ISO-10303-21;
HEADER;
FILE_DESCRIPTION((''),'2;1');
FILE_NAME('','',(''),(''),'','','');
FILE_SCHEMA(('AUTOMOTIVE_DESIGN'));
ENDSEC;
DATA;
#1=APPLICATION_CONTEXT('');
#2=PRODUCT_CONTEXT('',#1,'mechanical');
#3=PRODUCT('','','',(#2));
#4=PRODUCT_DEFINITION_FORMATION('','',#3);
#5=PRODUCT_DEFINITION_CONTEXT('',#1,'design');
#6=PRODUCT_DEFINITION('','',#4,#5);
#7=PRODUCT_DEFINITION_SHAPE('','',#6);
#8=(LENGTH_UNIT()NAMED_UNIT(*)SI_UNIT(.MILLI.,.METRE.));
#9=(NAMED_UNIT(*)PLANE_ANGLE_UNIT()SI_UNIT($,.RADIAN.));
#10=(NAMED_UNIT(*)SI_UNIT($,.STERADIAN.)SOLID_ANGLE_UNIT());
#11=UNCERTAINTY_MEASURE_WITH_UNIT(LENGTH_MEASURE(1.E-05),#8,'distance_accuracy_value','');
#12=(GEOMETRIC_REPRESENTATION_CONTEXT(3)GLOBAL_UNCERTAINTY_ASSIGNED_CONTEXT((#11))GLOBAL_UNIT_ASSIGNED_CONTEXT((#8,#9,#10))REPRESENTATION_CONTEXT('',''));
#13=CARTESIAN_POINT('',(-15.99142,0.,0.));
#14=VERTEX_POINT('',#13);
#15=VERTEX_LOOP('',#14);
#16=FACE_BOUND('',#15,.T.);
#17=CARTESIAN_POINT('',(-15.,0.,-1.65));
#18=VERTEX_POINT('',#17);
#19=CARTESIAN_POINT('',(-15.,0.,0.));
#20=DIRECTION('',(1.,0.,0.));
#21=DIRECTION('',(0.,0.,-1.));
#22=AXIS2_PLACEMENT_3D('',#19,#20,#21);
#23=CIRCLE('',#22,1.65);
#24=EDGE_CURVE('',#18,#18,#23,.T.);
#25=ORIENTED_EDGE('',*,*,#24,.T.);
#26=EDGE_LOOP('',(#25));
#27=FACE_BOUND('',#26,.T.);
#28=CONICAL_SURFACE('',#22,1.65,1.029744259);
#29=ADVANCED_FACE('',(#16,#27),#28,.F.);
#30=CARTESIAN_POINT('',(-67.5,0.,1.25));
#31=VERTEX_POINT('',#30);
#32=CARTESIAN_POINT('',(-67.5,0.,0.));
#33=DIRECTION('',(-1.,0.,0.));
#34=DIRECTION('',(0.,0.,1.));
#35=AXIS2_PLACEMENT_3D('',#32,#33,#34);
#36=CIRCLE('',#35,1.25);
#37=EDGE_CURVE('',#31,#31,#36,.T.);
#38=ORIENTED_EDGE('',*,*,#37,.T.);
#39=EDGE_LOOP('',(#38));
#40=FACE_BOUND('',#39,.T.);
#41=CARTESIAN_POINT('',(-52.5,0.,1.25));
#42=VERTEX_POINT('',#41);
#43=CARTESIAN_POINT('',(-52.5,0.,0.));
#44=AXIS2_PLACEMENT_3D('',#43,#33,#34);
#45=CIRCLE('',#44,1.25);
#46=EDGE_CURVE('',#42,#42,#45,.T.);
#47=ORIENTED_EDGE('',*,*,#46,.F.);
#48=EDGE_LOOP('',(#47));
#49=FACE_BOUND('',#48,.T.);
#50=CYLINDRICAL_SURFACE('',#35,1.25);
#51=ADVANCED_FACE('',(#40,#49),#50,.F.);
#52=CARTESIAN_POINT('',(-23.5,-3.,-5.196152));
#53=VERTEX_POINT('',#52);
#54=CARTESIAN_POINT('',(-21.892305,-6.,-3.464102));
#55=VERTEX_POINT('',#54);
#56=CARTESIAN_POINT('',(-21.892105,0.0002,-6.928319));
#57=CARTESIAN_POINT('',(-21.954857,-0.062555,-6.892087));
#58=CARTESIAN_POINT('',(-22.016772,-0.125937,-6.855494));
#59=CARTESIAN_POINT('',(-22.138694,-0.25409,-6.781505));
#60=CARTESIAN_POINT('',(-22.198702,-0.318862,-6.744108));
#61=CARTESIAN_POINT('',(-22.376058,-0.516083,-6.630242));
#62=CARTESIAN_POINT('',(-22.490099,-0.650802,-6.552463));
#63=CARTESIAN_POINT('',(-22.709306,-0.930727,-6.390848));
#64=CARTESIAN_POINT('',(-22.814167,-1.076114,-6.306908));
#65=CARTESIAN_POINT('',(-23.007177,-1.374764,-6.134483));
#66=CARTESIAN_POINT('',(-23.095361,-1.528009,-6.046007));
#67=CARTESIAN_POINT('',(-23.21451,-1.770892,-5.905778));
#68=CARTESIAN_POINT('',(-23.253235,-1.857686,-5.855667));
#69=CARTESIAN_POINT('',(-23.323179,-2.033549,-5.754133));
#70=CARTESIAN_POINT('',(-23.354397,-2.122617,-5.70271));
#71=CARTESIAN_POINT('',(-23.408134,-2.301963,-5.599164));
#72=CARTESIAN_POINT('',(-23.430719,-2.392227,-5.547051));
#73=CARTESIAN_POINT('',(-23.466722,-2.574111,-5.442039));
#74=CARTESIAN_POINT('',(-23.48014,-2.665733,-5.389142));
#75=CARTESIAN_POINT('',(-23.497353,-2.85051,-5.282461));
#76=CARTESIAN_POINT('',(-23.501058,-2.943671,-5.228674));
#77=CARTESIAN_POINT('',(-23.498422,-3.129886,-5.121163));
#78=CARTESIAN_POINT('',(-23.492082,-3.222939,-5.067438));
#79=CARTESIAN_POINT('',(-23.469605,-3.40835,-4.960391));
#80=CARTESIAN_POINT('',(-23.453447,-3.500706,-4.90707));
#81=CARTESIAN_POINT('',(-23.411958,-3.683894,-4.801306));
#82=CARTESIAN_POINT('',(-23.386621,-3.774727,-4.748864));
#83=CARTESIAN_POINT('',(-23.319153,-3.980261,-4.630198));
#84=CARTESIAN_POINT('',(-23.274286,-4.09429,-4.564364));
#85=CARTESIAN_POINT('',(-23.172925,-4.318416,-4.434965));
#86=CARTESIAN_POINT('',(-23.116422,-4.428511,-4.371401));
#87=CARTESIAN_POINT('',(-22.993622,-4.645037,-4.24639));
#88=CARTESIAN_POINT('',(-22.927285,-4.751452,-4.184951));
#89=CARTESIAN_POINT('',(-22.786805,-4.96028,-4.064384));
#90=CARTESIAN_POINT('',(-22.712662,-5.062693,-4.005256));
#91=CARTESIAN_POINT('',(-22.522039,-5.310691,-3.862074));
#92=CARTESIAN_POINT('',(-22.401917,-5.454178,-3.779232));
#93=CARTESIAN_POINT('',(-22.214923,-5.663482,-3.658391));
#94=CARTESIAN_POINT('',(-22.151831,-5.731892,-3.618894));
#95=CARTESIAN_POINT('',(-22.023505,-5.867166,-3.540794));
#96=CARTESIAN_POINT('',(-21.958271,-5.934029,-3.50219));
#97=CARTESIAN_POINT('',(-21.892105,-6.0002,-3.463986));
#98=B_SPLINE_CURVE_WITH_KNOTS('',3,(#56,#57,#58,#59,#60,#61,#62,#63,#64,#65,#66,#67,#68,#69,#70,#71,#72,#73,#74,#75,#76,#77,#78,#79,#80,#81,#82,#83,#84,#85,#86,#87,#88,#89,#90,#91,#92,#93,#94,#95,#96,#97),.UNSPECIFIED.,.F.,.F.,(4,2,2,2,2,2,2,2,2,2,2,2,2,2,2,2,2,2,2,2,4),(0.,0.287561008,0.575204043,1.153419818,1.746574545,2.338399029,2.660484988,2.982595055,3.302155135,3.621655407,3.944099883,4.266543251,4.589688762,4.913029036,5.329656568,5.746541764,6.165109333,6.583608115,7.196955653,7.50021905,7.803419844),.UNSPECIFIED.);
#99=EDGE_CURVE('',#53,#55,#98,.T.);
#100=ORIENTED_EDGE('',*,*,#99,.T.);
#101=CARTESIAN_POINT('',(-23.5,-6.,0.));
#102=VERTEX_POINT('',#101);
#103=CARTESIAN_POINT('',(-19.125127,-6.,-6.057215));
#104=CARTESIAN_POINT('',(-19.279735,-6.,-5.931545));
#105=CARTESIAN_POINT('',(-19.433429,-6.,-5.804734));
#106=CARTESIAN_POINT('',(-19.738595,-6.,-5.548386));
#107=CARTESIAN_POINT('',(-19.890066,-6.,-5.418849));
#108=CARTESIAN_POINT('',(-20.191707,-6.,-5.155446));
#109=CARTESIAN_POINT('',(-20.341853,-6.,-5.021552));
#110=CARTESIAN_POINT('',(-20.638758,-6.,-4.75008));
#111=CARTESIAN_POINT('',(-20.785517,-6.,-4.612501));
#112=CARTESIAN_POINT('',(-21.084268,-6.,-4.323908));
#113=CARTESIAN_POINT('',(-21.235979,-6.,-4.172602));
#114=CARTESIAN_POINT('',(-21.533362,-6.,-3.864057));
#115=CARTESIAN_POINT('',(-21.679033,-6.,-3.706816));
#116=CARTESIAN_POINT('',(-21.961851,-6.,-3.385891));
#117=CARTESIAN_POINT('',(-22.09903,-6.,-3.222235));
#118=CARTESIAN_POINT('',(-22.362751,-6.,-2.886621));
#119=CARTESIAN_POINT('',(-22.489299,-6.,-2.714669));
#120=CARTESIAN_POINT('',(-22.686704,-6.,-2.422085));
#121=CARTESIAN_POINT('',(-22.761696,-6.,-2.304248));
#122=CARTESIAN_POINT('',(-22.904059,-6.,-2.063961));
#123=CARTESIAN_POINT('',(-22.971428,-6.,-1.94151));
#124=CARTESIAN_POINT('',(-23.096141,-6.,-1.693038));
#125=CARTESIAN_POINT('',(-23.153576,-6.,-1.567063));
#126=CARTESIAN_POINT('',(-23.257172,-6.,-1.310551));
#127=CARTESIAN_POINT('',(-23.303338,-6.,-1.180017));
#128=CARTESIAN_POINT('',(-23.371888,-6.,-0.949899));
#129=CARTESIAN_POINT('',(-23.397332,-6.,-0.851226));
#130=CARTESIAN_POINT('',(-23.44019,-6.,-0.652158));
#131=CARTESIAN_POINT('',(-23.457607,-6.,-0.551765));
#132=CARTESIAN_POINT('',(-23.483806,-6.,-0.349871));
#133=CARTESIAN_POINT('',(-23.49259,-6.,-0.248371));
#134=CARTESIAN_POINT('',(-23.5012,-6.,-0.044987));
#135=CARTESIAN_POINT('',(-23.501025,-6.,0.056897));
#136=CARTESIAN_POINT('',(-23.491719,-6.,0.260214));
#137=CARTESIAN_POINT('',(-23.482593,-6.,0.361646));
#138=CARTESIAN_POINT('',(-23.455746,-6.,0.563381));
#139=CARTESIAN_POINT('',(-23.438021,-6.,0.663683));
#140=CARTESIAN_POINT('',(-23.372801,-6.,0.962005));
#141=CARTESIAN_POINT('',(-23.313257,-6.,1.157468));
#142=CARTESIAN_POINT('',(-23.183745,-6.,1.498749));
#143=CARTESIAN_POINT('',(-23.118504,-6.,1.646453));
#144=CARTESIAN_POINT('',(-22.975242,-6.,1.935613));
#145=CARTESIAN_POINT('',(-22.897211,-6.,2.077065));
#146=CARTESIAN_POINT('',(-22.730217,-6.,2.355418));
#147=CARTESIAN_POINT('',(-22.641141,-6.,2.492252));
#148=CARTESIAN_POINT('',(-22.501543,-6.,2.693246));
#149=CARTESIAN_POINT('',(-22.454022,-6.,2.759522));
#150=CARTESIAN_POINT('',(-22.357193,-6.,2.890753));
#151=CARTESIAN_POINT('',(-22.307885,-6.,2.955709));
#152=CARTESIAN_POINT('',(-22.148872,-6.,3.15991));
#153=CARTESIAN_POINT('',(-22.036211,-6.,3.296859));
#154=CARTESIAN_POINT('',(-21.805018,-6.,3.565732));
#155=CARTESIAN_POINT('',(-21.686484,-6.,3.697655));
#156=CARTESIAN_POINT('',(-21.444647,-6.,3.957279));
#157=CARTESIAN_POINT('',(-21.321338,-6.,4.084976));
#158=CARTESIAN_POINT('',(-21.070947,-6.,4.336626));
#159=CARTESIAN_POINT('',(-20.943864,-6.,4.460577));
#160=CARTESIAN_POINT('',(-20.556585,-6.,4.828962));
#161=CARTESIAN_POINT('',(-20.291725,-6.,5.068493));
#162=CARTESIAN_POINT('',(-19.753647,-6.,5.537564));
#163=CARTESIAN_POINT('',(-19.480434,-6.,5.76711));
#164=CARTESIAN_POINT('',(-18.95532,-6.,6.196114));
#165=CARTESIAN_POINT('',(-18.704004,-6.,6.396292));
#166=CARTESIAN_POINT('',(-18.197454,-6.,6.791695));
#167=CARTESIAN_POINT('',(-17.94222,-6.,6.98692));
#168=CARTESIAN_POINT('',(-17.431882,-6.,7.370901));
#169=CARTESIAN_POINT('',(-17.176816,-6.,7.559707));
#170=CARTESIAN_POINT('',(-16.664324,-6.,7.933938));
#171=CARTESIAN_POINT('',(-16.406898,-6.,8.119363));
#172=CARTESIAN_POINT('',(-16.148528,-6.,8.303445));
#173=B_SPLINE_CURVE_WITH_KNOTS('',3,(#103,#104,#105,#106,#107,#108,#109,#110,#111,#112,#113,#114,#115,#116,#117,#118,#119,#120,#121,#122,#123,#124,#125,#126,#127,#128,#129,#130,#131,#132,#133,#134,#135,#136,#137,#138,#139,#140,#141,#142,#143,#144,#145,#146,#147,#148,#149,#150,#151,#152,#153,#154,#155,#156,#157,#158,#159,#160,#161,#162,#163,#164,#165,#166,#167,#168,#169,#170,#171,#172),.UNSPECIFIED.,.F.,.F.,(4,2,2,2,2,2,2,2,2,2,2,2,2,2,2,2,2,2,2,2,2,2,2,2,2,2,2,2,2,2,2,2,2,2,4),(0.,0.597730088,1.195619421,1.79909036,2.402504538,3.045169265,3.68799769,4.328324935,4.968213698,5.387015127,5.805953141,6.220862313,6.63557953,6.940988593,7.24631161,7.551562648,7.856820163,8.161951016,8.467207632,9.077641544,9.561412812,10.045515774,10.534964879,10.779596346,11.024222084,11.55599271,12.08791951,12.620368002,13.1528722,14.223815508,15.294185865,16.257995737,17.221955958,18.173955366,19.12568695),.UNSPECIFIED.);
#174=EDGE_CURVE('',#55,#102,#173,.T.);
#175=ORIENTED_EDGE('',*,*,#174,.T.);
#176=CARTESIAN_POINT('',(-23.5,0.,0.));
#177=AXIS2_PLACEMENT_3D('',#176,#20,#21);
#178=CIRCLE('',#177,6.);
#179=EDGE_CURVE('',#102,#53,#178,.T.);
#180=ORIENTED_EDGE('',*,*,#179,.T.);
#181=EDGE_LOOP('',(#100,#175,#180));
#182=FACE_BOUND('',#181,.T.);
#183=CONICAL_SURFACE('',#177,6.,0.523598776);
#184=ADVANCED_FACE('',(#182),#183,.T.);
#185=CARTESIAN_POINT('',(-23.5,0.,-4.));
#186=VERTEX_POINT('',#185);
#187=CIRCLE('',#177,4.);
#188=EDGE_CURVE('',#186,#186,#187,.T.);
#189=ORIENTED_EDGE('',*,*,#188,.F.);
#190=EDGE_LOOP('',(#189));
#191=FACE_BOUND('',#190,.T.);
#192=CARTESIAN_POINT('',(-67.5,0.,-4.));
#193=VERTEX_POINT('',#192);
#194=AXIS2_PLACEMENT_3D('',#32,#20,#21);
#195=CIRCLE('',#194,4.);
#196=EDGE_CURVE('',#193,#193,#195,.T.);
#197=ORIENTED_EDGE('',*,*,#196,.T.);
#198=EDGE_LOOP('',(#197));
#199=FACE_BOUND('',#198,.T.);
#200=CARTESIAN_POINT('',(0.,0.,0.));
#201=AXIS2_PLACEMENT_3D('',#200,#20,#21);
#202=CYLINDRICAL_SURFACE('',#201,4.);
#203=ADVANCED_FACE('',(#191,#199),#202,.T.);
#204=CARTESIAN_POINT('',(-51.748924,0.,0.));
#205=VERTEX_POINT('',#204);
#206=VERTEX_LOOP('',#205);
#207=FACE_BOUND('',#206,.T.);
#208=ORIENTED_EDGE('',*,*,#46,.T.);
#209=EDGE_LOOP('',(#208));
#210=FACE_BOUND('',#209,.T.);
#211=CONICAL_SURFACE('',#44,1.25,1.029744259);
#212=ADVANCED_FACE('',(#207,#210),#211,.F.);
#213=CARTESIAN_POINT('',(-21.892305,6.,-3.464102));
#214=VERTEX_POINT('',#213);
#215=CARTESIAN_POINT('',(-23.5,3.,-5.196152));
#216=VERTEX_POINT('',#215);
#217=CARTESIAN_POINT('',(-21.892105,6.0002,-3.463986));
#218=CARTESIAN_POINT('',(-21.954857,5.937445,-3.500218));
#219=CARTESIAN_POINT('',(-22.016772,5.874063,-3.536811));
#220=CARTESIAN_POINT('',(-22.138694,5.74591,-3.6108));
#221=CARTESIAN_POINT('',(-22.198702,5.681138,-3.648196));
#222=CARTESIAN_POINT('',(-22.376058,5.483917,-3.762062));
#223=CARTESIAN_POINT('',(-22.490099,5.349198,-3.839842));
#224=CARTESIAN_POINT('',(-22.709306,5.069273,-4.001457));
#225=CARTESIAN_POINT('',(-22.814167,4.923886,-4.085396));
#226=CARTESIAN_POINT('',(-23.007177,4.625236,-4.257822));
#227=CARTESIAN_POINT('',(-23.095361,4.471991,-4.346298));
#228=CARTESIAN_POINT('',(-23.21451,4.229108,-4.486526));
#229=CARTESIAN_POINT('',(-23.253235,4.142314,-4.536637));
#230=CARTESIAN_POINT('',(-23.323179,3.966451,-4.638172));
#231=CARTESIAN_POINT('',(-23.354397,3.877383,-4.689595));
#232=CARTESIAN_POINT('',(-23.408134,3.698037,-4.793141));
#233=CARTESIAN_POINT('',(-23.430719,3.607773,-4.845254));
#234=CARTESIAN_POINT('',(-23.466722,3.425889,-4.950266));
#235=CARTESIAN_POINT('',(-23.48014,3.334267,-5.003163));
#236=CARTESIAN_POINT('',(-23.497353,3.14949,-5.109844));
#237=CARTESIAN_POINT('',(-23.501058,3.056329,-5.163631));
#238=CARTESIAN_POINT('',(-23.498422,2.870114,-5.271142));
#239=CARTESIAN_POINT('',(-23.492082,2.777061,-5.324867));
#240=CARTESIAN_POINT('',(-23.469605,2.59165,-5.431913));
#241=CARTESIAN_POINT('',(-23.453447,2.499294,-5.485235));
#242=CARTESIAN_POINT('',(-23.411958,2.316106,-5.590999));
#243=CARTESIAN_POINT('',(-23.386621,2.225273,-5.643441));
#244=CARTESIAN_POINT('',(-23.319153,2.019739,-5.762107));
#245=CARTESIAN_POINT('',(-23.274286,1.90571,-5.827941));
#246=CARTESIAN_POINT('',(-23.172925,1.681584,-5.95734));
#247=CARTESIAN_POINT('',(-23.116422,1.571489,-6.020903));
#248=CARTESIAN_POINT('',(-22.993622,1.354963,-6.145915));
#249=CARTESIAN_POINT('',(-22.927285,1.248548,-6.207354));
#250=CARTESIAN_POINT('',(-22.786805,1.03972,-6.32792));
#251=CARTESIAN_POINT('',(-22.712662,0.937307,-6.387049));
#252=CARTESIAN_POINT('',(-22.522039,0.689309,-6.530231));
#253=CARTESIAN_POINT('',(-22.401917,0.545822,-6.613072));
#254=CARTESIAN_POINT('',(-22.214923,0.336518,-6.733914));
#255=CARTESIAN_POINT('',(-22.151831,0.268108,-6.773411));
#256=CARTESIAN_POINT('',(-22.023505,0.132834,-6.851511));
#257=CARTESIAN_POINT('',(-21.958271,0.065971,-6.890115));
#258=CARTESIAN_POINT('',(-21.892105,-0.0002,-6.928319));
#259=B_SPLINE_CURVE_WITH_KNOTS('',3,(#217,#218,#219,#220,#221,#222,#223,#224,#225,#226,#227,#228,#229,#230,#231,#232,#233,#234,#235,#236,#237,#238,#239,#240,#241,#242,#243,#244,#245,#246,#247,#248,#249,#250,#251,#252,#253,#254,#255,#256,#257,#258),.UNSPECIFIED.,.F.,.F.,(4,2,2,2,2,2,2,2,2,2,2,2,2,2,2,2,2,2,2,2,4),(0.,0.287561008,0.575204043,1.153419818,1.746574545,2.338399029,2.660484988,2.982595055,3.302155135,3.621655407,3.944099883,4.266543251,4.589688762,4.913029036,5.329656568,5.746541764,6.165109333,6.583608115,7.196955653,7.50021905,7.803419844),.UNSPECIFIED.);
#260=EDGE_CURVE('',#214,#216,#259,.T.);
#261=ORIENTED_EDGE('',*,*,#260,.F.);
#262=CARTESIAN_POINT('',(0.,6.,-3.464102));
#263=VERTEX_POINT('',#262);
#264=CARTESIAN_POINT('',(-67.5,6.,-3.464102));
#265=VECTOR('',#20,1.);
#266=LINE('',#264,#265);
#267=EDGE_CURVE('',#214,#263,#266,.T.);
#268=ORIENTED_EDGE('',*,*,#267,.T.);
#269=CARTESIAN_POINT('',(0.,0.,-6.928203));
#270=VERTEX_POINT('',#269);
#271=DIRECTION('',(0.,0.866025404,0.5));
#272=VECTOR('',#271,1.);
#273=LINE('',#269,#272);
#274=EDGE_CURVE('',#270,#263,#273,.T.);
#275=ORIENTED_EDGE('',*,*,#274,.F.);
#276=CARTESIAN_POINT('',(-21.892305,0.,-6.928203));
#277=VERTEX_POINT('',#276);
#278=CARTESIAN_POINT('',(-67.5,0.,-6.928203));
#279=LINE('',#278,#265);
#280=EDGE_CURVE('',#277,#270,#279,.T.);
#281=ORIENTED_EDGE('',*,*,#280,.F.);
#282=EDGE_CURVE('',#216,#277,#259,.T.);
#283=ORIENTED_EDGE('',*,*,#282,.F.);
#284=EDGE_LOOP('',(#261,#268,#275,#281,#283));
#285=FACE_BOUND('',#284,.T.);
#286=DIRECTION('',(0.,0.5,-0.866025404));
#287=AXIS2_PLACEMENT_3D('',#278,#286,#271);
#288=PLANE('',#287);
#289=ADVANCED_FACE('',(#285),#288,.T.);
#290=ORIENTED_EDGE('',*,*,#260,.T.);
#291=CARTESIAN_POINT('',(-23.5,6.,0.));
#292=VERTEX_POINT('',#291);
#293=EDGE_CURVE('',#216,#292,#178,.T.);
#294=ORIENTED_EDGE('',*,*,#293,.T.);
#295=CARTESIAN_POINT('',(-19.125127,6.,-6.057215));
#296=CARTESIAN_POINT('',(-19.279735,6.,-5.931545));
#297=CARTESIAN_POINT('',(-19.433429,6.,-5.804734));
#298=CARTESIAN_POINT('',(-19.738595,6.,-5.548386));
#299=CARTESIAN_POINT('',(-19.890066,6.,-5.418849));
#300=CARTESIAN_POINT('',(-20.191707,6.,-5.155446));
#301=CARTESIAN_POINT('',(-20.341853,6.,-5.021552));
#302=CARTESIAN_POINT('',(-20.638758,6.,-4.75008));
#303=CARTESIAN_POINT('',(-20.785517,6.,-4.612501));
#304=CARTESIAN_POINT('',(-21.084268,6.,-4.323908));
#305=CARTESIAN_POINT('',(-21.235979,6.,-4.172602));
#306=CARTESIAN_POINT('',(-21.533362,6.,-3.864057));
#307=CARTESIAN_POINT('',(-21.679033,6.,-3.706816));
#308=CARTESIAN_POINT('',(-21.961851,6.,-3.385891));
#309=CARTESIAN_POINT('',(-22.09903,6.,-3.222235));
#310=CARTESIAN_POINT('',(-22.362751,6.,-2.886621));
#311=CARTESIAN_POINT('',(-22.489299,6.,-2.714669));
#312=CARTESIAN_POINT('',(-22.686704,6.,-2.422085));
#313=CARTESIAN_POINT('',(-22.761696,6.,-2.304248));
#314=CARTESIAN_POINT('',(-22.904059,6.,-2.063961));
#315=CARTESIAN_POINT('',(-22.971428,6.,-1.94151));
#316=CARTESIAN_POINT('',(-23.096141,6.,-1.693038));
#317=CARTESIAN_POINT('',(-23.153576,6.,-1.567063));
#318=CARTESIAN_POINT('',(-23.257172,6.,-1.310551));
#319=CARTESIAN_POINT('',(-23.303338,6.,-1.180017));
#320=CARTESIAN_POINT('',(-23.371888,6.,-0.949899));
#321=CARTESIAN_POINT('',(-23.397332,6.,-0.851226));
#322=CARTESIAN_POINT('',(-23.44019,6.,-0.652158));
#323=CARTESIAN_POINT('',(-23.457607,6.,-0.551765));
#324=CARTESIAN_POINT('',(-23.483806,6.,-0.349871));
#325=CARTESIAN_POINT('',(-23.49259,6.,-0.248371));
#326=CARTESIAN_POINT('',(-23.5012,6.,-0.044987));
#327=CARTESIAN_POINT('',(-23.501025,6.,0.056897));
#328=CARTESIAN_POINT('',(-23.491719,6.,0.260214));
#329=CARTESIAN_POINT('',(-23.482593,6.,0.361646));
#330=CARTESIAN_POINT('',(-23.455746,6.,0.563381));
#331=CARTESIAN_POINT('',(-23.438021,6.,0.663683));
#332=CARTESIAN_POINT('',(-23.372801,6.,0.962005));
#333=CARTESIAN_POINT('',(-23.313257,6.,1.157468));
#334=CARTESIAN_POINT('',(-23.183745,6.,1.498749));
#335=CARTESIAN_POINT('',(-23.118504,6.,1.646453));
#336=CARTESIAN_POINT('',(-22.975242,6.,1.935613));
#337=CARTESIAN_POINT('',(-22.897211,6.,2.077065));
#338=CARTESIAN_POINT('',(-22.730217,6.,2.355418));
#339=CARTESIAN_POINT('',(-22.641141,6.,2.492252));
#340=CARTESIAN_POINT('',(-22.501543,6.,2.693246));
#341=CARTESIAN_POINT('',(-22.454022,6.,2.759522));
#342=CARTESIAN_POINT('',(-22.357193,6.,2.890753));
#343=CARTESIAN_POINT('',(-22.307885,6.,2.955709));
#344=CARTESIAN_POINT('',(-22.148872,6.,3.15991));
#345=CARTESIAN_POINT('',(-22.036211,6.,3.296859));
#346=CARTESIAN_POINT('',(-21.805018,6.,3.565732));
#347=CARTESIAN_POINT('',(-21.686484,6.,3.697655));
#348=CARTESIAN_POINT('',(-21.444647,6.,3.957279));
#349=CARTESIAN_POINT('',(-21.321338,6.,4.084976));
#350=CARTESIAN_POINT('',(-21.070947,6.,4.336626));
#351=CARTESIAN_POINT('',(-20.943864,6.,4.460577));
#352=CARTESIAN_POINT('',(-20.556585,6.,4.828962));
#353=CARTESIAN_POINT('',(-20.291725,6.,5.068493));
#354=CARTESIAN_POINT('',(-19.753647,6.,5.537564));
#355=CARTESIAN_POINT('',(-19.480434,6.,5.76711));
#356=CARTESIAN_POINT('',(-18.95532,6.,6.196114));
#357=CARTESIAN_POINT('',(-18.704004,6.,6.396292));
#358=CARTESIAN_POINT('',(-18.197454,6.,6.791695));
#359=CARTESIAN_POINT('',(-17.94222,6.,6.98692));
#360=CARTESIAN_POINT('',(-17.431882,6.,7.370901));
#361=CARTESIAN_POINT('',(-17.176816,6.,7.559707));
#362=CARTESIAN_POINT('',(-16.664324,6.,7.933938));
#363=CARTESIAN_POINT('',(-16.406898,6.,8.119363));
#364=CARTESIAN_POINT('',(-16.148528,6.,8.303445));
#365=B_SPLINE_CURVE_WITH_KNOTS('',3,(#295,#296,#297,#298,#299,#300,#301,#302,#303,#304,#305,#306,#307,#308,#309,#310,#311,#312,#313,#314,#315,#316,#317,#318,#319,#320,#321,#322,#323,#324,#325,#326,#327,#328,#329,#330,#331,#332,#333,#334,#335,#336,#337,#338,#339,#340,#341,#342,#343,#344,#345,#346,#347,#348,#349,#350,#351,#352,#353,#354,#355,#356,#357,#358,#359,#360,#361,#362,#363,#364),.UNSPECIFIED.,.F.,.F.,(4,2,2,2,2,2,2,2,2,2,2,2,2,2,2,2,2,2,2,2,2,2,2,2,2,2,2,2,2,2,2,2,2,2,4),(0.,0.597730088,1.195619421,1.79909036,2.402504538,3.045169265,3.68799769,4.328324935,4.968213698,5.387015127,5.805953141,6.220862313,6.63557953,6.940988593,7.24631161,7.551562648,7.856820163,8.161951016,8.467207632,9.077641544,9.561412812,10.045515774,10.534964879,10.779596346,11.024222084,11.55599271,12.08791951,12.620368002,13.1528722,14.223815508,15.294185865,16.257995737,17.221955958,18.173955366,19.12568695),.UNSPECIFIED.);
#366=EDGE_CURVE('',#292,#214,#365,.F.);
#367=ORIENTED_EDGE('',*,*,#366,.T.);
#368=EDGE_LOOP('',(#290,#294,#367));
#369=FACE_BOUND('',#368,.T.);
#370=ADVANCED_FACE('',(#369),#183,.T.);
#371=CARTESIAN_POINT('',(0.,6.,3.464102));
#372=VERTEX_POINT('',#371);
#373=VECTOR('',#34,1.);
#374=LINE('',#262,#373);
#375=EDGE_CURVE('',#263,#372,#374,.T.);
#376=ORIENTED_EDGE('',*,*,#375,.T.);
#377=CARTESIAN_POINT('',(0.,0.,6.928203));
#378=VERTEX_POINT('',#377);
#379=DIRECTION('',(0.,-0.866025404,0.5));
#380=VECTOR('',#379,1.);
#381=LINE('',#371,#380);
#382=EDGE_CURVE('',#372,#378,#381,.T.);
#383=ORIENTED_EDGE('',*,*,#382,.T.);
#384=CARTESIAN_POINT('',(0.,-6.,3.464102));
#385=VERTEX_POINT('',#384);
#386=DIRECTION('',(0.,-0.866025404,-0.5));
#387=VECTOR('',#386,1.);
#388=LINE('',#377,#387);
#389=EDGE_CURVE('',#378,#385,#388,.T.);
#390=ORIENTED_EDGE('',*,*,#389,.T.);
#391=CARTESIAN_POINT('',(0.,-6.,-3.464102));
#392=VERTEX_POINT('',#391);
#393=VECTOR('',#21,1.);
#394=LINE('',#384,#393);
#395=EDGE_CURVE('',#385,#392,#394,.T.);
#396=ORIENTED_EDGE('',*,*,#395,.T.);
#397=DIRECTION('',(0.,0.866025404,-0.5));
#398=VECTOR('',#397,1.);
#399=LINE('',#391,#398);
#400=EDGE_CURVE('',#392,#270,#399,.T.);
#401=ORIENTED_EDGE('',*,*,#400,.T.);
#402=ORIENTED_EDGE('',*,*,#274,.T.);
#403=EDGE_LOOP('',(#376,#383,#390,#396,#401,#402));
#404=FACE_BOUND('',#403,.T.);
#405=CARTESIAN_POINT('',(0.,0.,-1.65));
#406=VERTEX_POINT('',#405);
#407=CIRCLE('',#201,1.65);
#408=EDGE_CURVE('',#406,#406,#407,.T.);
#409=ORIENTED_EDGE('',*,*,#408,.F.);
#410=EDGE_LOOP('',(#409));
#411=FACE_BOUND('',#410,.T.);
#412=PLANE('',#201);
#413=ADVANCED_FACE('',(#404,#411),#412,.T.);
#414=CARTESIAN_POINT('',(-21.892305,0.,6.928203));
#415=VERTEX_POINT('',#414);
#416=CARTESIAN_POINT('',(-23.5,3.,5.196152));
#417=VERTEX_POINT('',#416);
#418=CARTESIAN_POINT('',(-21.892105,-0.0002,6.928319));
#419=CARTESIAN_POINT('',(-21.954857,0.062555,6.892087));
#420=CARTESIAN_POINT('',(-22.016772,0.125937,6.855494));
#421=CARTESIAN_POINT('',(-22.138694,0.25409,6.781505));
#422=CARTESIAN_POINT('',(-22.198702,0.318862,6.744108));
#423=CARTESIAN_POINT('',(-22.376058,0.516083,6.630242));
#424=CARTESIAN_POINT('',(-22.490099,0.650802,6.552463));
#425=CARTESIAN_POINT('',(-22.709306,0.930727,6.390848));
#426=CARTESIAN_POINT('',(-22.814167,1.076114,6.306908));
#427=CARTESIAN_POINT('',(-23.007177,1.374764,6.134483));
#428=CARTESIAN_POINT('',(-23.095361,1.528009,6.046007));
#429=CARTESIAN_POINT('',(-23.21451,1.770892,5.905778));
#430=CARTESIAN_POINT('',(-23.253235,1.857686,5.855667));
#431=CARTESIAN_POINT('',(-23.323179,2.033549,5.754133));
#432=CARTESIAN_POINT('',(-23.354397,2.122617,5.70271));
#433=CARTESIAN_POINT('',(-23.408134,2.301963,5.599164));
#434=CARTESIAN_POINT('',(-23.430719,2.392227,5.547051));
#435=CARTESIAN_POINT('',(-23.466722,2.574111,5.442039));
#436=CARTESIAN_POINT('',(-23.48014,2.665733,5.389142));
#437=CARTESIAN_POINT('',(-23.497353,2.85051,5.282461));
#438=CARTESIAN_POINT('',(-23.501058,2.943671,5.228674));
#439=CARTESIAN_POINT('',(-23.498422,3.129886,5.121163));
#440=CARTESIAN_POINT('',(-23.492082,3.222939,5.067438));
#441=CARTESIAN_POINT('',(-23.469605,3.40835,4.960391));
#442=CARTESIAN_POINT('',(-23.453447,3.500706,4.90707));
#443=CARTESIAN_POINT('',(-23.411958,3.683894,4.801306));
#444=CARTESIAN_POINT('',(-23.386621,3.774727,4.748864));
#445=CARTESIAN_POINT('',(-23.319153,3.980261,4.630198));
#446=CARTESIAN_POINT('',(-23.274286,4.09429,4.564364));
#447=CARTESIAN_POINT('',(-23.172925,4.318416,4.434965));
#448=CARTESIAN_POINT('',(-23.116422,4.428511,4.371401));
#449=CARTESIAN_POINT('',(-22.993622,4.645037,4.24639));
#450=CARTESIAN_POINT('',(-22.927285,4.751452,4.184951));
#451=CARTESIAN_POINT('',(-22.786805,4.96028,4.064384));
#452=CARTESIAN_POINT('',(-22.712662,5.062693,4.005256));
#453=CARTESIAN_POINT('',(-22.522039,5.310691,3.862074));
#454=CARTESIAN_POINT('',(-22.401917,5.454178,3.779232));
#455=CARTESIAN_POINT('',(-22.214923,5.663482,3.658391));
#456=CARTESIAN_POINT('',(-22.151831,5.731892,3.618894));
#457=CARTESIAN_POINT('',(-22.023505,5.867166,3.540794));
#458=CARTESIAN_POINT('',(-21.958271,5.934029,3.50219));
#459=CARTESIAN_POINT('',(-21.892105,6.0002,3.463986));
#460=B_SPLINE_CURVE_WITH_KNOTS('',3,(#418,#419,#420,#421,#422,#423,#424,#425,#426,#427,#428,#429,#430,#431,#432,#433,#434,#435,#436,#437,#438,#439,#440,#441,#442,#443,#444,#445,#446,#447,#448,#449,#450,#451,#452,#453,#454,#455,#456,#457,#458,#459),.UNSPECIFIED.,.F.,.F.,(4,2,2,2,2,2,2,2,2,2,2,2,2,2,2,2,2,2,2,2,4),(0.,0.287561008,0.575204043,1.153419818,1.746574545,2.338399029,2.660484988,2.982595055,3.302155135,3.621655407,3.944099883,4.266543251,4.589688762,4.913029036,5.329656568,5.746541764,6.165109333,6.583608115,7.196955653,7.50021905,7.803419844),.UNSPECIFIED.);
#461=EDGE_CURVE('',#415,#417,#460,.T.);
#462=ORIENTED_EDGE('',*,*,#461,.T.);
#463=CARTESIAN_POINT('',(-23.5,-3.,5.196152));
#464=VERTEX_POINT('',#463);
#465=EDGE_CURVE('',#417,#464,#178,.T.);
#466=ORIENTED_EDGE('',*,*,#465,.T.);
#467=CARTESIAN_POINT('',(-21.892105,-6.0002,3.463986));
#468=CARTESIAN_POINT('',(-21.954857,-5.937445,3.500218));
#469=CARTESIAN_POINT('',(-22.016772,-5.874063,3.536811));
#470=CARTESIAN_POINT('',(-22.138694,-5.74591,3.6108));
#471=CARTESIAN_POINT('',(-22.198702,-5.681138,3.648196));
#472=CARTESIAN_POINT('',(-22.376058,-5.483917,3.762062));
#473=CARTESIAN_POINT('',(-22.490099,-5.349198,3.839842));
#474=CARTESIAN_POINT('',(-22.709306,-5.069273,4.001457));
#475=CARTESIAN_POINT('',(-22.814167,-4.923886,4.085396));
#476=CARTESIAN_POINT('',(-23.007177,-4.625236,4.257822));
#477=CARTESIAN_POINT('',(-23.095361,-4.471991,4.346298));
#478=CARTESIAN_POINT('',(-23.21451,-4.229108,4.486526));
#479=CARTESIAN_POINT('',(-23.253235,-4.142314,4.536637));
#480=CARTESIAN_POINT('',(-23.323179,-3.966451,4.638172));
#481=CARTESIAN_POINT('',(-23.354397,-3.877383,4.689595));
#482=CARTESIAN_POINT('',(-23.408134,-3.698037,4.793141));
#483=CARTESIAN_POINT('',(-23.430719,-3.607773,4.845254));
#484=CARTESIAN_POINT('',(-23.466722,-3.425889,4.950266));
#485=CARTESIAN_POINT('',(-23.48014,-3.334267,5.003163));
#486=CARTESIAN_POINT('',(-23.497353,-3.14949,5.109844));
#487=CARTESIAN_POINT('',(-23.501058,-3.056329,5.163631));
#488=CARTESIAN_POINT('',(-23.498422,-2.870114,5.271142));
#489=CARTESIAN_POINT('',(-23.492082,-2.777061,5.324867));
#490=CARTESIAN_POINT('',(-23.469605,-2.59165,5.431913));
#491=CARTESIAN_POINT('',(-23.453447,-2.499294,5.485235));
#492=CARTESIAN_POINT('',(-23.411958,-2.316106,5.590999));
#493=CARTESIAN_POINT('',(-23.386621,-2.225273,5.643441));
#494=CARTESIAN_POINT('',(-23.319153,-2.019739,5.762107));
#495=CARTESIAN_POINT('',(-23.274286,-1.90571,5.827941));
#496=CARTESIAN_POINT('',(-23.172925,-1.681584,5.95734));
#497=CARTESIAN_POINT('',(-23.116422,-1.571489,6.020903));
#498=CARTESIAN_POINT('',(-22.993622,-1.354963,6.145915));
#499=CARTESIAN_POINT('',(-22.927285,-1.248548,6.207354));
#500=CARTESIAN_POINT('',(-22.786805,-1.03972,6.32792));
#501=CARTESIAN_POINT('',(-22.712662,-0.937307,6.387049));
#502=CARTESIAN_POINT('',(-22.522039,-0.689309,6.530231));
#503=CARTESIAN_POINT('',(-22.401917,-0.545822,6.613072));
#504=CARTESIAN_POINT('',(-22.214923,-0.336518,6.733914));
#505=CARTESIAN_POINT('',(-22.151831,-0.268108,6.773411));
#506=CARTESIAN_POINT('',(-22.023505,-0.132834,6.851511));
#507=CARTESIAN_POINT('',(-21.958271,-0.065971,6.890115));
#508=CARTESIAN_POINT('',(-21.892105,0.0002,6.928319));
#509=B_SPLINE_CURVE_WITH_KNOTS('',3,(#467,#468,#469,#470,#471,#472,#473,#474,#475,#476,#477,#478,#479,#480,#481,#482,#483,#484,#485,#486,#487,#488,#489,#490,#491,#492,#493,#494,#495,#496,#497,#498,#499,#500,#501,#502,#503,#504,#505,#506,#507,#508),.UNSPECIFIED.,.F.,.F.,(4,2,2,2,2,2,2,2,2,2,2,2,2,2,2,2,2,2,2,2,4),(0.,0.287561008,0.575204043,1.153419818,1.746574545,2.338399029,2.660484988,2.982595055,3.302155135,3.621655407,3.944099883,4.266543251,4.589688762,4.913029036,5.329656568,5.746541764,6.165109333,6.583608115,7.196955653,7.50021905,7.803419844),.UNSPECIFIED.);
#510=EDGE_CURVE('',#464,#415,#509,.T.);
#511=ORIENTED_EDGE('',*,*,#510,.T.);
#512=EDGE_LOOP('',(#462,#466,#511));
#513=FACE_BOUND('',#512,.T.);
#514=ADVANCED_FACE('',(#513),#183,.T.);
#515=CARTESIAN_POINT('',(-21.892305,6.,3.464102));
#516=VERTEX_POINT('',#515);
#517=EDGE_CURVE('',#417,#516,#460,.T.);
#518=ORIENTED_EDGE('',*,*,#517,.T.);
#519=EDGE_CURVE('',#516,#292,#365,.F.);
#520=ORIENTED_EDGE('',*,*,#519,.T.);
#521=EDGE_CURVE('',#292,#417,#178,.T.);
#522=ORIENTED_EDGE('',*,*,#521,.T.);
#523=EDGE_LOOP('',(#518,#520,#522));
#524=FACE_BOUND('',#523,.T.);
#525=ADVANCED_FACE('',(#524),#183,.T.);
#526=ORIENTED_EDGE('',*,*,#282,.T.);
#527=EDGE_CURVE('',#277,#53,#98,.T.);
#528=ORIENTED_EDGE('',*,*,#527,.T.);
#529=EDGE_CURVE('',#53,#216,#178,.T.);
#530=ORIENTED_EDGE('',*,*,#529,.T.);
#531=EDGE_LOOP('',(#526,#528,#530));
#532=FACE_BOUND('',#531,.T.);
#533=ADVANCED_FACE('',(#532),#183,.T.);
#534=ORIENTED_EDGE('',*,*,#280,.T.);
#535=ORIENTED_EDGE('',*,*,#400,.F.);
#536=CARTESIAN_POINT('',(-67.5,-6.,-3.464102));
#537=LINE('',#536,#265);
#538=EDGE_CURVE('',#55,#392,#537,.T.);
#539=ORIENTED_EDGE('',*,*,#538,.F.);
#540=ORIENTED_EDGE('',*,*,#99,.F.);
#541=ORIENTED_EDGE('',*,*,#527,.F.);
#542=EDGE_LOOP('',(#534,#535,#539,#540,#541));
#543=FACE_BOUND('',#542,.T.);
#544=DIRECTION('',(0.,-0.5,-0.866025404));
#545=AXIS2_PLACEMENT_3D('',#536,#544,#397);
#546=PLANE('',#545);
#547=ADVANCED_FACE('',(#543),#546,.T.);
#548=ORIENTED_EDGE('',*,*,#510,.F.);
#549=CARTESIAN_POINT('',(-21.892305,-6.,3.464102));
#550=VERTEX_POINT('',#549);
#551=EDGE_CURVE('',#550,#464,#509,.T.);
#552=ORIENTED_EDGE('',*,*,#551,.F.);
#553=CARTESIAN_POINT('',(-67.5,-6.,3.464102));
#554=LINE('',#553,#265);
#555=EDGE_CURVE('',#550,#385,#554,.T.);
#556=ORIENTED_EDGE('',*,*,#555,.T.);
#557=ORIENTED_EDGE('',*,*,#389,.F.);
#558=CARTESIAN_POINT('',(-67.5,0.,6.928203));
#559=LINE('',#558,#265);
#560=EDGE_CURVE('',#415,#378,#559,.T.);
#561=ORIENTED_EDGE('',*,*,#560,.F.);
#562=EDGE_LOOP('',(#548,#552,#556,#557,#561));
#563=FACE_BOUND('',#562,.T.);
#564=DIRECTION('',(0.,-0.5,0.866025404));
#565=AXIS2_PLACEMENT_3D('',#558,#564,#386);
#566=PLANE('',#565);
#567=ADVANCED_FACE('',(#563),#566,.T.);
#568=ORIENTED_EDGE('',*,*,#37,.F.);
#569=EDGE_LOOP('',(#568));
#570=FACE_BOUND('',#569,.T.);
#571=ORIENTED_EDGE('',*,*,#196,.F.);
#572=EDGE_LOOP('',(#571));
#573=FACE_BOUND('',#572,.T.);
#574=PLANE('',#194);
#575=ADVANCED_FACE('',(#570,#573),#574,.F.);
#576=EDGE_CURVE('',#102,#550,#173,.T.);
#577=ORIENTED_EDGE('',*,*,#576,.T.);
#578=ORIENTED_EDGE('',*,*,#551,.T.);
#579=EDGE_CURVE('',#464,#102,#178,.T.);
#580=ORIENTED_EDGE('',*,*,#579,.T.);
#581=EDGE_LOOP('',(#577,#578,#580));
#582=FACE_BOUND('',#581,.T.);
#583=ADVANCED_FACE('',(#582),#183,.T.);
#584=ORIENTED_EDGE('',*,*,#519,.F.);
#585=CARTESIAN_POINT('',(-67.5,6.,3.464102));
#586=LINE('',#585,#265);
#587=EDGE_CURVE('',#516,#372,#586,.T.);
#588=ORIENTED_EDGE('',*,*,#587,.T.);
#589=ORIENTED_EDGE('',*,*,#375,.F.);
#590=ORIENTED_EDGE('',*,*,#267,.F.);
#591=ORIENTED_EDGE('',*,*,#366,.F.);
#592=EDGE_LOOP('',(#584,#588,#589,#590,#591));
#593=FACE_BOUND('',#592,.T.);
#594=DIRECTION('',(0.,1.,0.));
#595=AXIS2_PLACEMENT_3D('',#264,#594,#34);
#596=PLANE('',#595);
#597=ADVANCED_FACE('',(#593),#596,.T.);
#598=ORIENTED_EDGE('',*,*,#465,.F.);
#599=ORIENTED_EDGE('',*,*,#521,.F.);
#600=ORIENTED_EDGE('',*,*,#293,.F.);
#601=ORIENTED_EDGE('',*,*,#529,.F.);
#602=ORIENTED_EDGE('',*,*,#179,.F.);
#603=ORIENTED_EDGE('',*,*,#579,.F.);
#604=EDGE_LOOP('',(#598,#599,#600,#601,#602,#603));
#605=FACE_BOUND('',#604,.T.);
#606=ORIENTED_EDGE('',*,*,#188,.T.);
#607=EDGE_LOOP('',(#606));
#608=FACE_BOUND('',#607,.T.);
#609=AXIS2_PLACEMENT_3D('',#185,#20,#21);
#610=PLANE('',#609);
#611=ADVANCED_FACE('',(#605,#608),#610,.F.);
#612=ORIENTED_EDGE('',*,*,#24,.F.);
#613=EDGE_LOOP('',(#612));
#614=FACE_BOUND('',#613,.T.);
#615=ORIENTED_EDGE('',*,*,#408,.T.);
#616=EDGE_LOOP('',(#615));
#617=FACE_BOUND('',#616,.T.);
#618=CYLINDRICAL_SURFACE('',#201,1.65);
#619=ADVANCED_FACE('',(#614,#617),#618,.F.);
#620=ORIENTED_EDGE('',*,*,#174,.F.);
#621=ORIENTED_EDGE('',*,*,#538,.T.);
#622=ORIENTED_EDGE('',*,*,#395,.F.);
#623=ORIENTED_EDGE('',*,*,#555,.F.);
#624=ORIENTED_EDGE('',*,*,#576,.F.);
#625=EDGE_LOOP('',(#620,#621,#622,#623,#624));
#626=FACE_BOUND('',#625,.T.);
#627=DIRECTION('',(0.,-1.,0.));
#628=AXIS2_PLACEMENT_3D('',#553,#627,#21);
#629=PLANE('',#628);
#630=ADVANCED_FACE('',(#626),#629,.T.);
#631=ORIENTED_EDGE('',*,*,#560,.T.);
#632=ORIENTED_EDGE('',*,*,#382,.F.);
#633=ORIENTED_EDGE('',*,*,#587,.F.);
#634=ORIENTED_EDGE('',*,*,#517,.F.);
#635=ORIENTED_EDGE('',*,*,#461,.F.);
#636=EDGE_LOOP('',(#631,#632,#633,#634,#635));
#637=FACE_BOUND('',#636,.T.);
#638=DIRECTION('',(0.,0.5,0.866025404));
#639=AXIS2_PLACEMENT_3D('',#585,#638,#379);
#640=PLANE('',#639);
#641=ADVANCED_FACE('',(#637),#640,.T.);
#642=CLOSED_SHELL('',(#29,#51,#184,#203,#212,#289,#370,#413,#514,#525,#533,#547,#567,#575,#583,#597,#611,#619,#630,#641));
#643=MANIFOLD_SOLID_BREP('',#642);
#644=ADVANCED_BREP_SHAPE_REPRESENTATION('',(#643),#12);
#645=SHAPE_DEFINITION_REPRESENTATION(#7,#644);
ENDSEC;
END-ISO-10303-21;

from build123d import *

# Parameters (mm, degrees)
BOSS_EXTRU_1_DEPTH        = 67.5
TROU_TARAUD_M4X0_71_D     = 3.3
TROU_TARAUD_M4X0_71_DEPTH = 15
TROU_TARAUD_M4X0_71_TIP   = 0.991420021
TROU_TARAUD_M3X0_51_D     = 2.5
TROU_TARAUD_M3X0_51_DEPTH = 15
TROU_TARAUD_M3X0_51_TIP   = 0.751075774


with BuildPart() as part:
    # Esquisse1 → Boss.-Extru.1 (new body)
    with BuildSketch(Plane(origin=(0, 0, 0), x_dir=(0, 0, -1), z_dir=(1, 0, 0))):
        Polygon((6.92820323, 0), (3.464101615, 6), (-3.464101615, 6), (-6.92820323, 0), (-3.464101615, -6), (3.464101615, -6), align=None)
    extrude(amount=-BOSS_EXTRU_1_DEPTH)

    # Trou taraudé M4x0.71
    with Locations(Plane(origin=(0, 0, 0), x_dir=(0, 0, -1), z_dir=(1, 0, 0))):
        with Locations((0, 0)):
            Hole(TROU_TARAUD_M4X0_71_D / 2, depth=TROU_TARAUD_M4X0_71_DEPTH)
            with Locations((0, 0, -(TROU_TARAUD_M4X0_71_DEPTH + TROU_TARAUD_M4X0_71_TIP / 2))):  # 118° drill point
                Cone(0, TROU_TARAUD_M4X0_71_D / 2, TROU_TARAUD_M4X0_71_TIP, mode=Mode.SUBTRACT)

    # Trou taraudé M3x0.51
    with Locations(Plane.ZY.offset(67.5)):
        with Locations((0, 0)):
            Hole(TROU_TARAUD_M3X0_51_D / 2, depth=TROU_TARAUD_M3X0_51_DEPTH)
            with Locations((0, 0, -(TROU_TARAUD_M3X0_51_DEPTH + TROU_TARAUD_M3X0_51_TIP / 2))):  # 118° drill point
                Cone(0, TROU_TARAUD_M3X0_51_D / 2, TROU_TARAUD_M3X0_51_TIP, mode=Mode.SUBTRACT)

    # Esquisse4 → Enlèvement de matière-Révolution1 (revolve, cut)
    with BuildSketch(Plane(origin=(0, 0, 0), x_dir=(1, 0, 0), z_dir=(0, 1, 0))):
        Polygon((-21.892304845, 6.92820323), (-67.5, 6.92820323), (-67.5, 4), (-23.5, 4), (-23.5, 6), align=None)
    revolve(axis=Axis((0, 0, 0), (-1, 0, 0)), mode=Mode.SUBTRACT)


solid = part.part
